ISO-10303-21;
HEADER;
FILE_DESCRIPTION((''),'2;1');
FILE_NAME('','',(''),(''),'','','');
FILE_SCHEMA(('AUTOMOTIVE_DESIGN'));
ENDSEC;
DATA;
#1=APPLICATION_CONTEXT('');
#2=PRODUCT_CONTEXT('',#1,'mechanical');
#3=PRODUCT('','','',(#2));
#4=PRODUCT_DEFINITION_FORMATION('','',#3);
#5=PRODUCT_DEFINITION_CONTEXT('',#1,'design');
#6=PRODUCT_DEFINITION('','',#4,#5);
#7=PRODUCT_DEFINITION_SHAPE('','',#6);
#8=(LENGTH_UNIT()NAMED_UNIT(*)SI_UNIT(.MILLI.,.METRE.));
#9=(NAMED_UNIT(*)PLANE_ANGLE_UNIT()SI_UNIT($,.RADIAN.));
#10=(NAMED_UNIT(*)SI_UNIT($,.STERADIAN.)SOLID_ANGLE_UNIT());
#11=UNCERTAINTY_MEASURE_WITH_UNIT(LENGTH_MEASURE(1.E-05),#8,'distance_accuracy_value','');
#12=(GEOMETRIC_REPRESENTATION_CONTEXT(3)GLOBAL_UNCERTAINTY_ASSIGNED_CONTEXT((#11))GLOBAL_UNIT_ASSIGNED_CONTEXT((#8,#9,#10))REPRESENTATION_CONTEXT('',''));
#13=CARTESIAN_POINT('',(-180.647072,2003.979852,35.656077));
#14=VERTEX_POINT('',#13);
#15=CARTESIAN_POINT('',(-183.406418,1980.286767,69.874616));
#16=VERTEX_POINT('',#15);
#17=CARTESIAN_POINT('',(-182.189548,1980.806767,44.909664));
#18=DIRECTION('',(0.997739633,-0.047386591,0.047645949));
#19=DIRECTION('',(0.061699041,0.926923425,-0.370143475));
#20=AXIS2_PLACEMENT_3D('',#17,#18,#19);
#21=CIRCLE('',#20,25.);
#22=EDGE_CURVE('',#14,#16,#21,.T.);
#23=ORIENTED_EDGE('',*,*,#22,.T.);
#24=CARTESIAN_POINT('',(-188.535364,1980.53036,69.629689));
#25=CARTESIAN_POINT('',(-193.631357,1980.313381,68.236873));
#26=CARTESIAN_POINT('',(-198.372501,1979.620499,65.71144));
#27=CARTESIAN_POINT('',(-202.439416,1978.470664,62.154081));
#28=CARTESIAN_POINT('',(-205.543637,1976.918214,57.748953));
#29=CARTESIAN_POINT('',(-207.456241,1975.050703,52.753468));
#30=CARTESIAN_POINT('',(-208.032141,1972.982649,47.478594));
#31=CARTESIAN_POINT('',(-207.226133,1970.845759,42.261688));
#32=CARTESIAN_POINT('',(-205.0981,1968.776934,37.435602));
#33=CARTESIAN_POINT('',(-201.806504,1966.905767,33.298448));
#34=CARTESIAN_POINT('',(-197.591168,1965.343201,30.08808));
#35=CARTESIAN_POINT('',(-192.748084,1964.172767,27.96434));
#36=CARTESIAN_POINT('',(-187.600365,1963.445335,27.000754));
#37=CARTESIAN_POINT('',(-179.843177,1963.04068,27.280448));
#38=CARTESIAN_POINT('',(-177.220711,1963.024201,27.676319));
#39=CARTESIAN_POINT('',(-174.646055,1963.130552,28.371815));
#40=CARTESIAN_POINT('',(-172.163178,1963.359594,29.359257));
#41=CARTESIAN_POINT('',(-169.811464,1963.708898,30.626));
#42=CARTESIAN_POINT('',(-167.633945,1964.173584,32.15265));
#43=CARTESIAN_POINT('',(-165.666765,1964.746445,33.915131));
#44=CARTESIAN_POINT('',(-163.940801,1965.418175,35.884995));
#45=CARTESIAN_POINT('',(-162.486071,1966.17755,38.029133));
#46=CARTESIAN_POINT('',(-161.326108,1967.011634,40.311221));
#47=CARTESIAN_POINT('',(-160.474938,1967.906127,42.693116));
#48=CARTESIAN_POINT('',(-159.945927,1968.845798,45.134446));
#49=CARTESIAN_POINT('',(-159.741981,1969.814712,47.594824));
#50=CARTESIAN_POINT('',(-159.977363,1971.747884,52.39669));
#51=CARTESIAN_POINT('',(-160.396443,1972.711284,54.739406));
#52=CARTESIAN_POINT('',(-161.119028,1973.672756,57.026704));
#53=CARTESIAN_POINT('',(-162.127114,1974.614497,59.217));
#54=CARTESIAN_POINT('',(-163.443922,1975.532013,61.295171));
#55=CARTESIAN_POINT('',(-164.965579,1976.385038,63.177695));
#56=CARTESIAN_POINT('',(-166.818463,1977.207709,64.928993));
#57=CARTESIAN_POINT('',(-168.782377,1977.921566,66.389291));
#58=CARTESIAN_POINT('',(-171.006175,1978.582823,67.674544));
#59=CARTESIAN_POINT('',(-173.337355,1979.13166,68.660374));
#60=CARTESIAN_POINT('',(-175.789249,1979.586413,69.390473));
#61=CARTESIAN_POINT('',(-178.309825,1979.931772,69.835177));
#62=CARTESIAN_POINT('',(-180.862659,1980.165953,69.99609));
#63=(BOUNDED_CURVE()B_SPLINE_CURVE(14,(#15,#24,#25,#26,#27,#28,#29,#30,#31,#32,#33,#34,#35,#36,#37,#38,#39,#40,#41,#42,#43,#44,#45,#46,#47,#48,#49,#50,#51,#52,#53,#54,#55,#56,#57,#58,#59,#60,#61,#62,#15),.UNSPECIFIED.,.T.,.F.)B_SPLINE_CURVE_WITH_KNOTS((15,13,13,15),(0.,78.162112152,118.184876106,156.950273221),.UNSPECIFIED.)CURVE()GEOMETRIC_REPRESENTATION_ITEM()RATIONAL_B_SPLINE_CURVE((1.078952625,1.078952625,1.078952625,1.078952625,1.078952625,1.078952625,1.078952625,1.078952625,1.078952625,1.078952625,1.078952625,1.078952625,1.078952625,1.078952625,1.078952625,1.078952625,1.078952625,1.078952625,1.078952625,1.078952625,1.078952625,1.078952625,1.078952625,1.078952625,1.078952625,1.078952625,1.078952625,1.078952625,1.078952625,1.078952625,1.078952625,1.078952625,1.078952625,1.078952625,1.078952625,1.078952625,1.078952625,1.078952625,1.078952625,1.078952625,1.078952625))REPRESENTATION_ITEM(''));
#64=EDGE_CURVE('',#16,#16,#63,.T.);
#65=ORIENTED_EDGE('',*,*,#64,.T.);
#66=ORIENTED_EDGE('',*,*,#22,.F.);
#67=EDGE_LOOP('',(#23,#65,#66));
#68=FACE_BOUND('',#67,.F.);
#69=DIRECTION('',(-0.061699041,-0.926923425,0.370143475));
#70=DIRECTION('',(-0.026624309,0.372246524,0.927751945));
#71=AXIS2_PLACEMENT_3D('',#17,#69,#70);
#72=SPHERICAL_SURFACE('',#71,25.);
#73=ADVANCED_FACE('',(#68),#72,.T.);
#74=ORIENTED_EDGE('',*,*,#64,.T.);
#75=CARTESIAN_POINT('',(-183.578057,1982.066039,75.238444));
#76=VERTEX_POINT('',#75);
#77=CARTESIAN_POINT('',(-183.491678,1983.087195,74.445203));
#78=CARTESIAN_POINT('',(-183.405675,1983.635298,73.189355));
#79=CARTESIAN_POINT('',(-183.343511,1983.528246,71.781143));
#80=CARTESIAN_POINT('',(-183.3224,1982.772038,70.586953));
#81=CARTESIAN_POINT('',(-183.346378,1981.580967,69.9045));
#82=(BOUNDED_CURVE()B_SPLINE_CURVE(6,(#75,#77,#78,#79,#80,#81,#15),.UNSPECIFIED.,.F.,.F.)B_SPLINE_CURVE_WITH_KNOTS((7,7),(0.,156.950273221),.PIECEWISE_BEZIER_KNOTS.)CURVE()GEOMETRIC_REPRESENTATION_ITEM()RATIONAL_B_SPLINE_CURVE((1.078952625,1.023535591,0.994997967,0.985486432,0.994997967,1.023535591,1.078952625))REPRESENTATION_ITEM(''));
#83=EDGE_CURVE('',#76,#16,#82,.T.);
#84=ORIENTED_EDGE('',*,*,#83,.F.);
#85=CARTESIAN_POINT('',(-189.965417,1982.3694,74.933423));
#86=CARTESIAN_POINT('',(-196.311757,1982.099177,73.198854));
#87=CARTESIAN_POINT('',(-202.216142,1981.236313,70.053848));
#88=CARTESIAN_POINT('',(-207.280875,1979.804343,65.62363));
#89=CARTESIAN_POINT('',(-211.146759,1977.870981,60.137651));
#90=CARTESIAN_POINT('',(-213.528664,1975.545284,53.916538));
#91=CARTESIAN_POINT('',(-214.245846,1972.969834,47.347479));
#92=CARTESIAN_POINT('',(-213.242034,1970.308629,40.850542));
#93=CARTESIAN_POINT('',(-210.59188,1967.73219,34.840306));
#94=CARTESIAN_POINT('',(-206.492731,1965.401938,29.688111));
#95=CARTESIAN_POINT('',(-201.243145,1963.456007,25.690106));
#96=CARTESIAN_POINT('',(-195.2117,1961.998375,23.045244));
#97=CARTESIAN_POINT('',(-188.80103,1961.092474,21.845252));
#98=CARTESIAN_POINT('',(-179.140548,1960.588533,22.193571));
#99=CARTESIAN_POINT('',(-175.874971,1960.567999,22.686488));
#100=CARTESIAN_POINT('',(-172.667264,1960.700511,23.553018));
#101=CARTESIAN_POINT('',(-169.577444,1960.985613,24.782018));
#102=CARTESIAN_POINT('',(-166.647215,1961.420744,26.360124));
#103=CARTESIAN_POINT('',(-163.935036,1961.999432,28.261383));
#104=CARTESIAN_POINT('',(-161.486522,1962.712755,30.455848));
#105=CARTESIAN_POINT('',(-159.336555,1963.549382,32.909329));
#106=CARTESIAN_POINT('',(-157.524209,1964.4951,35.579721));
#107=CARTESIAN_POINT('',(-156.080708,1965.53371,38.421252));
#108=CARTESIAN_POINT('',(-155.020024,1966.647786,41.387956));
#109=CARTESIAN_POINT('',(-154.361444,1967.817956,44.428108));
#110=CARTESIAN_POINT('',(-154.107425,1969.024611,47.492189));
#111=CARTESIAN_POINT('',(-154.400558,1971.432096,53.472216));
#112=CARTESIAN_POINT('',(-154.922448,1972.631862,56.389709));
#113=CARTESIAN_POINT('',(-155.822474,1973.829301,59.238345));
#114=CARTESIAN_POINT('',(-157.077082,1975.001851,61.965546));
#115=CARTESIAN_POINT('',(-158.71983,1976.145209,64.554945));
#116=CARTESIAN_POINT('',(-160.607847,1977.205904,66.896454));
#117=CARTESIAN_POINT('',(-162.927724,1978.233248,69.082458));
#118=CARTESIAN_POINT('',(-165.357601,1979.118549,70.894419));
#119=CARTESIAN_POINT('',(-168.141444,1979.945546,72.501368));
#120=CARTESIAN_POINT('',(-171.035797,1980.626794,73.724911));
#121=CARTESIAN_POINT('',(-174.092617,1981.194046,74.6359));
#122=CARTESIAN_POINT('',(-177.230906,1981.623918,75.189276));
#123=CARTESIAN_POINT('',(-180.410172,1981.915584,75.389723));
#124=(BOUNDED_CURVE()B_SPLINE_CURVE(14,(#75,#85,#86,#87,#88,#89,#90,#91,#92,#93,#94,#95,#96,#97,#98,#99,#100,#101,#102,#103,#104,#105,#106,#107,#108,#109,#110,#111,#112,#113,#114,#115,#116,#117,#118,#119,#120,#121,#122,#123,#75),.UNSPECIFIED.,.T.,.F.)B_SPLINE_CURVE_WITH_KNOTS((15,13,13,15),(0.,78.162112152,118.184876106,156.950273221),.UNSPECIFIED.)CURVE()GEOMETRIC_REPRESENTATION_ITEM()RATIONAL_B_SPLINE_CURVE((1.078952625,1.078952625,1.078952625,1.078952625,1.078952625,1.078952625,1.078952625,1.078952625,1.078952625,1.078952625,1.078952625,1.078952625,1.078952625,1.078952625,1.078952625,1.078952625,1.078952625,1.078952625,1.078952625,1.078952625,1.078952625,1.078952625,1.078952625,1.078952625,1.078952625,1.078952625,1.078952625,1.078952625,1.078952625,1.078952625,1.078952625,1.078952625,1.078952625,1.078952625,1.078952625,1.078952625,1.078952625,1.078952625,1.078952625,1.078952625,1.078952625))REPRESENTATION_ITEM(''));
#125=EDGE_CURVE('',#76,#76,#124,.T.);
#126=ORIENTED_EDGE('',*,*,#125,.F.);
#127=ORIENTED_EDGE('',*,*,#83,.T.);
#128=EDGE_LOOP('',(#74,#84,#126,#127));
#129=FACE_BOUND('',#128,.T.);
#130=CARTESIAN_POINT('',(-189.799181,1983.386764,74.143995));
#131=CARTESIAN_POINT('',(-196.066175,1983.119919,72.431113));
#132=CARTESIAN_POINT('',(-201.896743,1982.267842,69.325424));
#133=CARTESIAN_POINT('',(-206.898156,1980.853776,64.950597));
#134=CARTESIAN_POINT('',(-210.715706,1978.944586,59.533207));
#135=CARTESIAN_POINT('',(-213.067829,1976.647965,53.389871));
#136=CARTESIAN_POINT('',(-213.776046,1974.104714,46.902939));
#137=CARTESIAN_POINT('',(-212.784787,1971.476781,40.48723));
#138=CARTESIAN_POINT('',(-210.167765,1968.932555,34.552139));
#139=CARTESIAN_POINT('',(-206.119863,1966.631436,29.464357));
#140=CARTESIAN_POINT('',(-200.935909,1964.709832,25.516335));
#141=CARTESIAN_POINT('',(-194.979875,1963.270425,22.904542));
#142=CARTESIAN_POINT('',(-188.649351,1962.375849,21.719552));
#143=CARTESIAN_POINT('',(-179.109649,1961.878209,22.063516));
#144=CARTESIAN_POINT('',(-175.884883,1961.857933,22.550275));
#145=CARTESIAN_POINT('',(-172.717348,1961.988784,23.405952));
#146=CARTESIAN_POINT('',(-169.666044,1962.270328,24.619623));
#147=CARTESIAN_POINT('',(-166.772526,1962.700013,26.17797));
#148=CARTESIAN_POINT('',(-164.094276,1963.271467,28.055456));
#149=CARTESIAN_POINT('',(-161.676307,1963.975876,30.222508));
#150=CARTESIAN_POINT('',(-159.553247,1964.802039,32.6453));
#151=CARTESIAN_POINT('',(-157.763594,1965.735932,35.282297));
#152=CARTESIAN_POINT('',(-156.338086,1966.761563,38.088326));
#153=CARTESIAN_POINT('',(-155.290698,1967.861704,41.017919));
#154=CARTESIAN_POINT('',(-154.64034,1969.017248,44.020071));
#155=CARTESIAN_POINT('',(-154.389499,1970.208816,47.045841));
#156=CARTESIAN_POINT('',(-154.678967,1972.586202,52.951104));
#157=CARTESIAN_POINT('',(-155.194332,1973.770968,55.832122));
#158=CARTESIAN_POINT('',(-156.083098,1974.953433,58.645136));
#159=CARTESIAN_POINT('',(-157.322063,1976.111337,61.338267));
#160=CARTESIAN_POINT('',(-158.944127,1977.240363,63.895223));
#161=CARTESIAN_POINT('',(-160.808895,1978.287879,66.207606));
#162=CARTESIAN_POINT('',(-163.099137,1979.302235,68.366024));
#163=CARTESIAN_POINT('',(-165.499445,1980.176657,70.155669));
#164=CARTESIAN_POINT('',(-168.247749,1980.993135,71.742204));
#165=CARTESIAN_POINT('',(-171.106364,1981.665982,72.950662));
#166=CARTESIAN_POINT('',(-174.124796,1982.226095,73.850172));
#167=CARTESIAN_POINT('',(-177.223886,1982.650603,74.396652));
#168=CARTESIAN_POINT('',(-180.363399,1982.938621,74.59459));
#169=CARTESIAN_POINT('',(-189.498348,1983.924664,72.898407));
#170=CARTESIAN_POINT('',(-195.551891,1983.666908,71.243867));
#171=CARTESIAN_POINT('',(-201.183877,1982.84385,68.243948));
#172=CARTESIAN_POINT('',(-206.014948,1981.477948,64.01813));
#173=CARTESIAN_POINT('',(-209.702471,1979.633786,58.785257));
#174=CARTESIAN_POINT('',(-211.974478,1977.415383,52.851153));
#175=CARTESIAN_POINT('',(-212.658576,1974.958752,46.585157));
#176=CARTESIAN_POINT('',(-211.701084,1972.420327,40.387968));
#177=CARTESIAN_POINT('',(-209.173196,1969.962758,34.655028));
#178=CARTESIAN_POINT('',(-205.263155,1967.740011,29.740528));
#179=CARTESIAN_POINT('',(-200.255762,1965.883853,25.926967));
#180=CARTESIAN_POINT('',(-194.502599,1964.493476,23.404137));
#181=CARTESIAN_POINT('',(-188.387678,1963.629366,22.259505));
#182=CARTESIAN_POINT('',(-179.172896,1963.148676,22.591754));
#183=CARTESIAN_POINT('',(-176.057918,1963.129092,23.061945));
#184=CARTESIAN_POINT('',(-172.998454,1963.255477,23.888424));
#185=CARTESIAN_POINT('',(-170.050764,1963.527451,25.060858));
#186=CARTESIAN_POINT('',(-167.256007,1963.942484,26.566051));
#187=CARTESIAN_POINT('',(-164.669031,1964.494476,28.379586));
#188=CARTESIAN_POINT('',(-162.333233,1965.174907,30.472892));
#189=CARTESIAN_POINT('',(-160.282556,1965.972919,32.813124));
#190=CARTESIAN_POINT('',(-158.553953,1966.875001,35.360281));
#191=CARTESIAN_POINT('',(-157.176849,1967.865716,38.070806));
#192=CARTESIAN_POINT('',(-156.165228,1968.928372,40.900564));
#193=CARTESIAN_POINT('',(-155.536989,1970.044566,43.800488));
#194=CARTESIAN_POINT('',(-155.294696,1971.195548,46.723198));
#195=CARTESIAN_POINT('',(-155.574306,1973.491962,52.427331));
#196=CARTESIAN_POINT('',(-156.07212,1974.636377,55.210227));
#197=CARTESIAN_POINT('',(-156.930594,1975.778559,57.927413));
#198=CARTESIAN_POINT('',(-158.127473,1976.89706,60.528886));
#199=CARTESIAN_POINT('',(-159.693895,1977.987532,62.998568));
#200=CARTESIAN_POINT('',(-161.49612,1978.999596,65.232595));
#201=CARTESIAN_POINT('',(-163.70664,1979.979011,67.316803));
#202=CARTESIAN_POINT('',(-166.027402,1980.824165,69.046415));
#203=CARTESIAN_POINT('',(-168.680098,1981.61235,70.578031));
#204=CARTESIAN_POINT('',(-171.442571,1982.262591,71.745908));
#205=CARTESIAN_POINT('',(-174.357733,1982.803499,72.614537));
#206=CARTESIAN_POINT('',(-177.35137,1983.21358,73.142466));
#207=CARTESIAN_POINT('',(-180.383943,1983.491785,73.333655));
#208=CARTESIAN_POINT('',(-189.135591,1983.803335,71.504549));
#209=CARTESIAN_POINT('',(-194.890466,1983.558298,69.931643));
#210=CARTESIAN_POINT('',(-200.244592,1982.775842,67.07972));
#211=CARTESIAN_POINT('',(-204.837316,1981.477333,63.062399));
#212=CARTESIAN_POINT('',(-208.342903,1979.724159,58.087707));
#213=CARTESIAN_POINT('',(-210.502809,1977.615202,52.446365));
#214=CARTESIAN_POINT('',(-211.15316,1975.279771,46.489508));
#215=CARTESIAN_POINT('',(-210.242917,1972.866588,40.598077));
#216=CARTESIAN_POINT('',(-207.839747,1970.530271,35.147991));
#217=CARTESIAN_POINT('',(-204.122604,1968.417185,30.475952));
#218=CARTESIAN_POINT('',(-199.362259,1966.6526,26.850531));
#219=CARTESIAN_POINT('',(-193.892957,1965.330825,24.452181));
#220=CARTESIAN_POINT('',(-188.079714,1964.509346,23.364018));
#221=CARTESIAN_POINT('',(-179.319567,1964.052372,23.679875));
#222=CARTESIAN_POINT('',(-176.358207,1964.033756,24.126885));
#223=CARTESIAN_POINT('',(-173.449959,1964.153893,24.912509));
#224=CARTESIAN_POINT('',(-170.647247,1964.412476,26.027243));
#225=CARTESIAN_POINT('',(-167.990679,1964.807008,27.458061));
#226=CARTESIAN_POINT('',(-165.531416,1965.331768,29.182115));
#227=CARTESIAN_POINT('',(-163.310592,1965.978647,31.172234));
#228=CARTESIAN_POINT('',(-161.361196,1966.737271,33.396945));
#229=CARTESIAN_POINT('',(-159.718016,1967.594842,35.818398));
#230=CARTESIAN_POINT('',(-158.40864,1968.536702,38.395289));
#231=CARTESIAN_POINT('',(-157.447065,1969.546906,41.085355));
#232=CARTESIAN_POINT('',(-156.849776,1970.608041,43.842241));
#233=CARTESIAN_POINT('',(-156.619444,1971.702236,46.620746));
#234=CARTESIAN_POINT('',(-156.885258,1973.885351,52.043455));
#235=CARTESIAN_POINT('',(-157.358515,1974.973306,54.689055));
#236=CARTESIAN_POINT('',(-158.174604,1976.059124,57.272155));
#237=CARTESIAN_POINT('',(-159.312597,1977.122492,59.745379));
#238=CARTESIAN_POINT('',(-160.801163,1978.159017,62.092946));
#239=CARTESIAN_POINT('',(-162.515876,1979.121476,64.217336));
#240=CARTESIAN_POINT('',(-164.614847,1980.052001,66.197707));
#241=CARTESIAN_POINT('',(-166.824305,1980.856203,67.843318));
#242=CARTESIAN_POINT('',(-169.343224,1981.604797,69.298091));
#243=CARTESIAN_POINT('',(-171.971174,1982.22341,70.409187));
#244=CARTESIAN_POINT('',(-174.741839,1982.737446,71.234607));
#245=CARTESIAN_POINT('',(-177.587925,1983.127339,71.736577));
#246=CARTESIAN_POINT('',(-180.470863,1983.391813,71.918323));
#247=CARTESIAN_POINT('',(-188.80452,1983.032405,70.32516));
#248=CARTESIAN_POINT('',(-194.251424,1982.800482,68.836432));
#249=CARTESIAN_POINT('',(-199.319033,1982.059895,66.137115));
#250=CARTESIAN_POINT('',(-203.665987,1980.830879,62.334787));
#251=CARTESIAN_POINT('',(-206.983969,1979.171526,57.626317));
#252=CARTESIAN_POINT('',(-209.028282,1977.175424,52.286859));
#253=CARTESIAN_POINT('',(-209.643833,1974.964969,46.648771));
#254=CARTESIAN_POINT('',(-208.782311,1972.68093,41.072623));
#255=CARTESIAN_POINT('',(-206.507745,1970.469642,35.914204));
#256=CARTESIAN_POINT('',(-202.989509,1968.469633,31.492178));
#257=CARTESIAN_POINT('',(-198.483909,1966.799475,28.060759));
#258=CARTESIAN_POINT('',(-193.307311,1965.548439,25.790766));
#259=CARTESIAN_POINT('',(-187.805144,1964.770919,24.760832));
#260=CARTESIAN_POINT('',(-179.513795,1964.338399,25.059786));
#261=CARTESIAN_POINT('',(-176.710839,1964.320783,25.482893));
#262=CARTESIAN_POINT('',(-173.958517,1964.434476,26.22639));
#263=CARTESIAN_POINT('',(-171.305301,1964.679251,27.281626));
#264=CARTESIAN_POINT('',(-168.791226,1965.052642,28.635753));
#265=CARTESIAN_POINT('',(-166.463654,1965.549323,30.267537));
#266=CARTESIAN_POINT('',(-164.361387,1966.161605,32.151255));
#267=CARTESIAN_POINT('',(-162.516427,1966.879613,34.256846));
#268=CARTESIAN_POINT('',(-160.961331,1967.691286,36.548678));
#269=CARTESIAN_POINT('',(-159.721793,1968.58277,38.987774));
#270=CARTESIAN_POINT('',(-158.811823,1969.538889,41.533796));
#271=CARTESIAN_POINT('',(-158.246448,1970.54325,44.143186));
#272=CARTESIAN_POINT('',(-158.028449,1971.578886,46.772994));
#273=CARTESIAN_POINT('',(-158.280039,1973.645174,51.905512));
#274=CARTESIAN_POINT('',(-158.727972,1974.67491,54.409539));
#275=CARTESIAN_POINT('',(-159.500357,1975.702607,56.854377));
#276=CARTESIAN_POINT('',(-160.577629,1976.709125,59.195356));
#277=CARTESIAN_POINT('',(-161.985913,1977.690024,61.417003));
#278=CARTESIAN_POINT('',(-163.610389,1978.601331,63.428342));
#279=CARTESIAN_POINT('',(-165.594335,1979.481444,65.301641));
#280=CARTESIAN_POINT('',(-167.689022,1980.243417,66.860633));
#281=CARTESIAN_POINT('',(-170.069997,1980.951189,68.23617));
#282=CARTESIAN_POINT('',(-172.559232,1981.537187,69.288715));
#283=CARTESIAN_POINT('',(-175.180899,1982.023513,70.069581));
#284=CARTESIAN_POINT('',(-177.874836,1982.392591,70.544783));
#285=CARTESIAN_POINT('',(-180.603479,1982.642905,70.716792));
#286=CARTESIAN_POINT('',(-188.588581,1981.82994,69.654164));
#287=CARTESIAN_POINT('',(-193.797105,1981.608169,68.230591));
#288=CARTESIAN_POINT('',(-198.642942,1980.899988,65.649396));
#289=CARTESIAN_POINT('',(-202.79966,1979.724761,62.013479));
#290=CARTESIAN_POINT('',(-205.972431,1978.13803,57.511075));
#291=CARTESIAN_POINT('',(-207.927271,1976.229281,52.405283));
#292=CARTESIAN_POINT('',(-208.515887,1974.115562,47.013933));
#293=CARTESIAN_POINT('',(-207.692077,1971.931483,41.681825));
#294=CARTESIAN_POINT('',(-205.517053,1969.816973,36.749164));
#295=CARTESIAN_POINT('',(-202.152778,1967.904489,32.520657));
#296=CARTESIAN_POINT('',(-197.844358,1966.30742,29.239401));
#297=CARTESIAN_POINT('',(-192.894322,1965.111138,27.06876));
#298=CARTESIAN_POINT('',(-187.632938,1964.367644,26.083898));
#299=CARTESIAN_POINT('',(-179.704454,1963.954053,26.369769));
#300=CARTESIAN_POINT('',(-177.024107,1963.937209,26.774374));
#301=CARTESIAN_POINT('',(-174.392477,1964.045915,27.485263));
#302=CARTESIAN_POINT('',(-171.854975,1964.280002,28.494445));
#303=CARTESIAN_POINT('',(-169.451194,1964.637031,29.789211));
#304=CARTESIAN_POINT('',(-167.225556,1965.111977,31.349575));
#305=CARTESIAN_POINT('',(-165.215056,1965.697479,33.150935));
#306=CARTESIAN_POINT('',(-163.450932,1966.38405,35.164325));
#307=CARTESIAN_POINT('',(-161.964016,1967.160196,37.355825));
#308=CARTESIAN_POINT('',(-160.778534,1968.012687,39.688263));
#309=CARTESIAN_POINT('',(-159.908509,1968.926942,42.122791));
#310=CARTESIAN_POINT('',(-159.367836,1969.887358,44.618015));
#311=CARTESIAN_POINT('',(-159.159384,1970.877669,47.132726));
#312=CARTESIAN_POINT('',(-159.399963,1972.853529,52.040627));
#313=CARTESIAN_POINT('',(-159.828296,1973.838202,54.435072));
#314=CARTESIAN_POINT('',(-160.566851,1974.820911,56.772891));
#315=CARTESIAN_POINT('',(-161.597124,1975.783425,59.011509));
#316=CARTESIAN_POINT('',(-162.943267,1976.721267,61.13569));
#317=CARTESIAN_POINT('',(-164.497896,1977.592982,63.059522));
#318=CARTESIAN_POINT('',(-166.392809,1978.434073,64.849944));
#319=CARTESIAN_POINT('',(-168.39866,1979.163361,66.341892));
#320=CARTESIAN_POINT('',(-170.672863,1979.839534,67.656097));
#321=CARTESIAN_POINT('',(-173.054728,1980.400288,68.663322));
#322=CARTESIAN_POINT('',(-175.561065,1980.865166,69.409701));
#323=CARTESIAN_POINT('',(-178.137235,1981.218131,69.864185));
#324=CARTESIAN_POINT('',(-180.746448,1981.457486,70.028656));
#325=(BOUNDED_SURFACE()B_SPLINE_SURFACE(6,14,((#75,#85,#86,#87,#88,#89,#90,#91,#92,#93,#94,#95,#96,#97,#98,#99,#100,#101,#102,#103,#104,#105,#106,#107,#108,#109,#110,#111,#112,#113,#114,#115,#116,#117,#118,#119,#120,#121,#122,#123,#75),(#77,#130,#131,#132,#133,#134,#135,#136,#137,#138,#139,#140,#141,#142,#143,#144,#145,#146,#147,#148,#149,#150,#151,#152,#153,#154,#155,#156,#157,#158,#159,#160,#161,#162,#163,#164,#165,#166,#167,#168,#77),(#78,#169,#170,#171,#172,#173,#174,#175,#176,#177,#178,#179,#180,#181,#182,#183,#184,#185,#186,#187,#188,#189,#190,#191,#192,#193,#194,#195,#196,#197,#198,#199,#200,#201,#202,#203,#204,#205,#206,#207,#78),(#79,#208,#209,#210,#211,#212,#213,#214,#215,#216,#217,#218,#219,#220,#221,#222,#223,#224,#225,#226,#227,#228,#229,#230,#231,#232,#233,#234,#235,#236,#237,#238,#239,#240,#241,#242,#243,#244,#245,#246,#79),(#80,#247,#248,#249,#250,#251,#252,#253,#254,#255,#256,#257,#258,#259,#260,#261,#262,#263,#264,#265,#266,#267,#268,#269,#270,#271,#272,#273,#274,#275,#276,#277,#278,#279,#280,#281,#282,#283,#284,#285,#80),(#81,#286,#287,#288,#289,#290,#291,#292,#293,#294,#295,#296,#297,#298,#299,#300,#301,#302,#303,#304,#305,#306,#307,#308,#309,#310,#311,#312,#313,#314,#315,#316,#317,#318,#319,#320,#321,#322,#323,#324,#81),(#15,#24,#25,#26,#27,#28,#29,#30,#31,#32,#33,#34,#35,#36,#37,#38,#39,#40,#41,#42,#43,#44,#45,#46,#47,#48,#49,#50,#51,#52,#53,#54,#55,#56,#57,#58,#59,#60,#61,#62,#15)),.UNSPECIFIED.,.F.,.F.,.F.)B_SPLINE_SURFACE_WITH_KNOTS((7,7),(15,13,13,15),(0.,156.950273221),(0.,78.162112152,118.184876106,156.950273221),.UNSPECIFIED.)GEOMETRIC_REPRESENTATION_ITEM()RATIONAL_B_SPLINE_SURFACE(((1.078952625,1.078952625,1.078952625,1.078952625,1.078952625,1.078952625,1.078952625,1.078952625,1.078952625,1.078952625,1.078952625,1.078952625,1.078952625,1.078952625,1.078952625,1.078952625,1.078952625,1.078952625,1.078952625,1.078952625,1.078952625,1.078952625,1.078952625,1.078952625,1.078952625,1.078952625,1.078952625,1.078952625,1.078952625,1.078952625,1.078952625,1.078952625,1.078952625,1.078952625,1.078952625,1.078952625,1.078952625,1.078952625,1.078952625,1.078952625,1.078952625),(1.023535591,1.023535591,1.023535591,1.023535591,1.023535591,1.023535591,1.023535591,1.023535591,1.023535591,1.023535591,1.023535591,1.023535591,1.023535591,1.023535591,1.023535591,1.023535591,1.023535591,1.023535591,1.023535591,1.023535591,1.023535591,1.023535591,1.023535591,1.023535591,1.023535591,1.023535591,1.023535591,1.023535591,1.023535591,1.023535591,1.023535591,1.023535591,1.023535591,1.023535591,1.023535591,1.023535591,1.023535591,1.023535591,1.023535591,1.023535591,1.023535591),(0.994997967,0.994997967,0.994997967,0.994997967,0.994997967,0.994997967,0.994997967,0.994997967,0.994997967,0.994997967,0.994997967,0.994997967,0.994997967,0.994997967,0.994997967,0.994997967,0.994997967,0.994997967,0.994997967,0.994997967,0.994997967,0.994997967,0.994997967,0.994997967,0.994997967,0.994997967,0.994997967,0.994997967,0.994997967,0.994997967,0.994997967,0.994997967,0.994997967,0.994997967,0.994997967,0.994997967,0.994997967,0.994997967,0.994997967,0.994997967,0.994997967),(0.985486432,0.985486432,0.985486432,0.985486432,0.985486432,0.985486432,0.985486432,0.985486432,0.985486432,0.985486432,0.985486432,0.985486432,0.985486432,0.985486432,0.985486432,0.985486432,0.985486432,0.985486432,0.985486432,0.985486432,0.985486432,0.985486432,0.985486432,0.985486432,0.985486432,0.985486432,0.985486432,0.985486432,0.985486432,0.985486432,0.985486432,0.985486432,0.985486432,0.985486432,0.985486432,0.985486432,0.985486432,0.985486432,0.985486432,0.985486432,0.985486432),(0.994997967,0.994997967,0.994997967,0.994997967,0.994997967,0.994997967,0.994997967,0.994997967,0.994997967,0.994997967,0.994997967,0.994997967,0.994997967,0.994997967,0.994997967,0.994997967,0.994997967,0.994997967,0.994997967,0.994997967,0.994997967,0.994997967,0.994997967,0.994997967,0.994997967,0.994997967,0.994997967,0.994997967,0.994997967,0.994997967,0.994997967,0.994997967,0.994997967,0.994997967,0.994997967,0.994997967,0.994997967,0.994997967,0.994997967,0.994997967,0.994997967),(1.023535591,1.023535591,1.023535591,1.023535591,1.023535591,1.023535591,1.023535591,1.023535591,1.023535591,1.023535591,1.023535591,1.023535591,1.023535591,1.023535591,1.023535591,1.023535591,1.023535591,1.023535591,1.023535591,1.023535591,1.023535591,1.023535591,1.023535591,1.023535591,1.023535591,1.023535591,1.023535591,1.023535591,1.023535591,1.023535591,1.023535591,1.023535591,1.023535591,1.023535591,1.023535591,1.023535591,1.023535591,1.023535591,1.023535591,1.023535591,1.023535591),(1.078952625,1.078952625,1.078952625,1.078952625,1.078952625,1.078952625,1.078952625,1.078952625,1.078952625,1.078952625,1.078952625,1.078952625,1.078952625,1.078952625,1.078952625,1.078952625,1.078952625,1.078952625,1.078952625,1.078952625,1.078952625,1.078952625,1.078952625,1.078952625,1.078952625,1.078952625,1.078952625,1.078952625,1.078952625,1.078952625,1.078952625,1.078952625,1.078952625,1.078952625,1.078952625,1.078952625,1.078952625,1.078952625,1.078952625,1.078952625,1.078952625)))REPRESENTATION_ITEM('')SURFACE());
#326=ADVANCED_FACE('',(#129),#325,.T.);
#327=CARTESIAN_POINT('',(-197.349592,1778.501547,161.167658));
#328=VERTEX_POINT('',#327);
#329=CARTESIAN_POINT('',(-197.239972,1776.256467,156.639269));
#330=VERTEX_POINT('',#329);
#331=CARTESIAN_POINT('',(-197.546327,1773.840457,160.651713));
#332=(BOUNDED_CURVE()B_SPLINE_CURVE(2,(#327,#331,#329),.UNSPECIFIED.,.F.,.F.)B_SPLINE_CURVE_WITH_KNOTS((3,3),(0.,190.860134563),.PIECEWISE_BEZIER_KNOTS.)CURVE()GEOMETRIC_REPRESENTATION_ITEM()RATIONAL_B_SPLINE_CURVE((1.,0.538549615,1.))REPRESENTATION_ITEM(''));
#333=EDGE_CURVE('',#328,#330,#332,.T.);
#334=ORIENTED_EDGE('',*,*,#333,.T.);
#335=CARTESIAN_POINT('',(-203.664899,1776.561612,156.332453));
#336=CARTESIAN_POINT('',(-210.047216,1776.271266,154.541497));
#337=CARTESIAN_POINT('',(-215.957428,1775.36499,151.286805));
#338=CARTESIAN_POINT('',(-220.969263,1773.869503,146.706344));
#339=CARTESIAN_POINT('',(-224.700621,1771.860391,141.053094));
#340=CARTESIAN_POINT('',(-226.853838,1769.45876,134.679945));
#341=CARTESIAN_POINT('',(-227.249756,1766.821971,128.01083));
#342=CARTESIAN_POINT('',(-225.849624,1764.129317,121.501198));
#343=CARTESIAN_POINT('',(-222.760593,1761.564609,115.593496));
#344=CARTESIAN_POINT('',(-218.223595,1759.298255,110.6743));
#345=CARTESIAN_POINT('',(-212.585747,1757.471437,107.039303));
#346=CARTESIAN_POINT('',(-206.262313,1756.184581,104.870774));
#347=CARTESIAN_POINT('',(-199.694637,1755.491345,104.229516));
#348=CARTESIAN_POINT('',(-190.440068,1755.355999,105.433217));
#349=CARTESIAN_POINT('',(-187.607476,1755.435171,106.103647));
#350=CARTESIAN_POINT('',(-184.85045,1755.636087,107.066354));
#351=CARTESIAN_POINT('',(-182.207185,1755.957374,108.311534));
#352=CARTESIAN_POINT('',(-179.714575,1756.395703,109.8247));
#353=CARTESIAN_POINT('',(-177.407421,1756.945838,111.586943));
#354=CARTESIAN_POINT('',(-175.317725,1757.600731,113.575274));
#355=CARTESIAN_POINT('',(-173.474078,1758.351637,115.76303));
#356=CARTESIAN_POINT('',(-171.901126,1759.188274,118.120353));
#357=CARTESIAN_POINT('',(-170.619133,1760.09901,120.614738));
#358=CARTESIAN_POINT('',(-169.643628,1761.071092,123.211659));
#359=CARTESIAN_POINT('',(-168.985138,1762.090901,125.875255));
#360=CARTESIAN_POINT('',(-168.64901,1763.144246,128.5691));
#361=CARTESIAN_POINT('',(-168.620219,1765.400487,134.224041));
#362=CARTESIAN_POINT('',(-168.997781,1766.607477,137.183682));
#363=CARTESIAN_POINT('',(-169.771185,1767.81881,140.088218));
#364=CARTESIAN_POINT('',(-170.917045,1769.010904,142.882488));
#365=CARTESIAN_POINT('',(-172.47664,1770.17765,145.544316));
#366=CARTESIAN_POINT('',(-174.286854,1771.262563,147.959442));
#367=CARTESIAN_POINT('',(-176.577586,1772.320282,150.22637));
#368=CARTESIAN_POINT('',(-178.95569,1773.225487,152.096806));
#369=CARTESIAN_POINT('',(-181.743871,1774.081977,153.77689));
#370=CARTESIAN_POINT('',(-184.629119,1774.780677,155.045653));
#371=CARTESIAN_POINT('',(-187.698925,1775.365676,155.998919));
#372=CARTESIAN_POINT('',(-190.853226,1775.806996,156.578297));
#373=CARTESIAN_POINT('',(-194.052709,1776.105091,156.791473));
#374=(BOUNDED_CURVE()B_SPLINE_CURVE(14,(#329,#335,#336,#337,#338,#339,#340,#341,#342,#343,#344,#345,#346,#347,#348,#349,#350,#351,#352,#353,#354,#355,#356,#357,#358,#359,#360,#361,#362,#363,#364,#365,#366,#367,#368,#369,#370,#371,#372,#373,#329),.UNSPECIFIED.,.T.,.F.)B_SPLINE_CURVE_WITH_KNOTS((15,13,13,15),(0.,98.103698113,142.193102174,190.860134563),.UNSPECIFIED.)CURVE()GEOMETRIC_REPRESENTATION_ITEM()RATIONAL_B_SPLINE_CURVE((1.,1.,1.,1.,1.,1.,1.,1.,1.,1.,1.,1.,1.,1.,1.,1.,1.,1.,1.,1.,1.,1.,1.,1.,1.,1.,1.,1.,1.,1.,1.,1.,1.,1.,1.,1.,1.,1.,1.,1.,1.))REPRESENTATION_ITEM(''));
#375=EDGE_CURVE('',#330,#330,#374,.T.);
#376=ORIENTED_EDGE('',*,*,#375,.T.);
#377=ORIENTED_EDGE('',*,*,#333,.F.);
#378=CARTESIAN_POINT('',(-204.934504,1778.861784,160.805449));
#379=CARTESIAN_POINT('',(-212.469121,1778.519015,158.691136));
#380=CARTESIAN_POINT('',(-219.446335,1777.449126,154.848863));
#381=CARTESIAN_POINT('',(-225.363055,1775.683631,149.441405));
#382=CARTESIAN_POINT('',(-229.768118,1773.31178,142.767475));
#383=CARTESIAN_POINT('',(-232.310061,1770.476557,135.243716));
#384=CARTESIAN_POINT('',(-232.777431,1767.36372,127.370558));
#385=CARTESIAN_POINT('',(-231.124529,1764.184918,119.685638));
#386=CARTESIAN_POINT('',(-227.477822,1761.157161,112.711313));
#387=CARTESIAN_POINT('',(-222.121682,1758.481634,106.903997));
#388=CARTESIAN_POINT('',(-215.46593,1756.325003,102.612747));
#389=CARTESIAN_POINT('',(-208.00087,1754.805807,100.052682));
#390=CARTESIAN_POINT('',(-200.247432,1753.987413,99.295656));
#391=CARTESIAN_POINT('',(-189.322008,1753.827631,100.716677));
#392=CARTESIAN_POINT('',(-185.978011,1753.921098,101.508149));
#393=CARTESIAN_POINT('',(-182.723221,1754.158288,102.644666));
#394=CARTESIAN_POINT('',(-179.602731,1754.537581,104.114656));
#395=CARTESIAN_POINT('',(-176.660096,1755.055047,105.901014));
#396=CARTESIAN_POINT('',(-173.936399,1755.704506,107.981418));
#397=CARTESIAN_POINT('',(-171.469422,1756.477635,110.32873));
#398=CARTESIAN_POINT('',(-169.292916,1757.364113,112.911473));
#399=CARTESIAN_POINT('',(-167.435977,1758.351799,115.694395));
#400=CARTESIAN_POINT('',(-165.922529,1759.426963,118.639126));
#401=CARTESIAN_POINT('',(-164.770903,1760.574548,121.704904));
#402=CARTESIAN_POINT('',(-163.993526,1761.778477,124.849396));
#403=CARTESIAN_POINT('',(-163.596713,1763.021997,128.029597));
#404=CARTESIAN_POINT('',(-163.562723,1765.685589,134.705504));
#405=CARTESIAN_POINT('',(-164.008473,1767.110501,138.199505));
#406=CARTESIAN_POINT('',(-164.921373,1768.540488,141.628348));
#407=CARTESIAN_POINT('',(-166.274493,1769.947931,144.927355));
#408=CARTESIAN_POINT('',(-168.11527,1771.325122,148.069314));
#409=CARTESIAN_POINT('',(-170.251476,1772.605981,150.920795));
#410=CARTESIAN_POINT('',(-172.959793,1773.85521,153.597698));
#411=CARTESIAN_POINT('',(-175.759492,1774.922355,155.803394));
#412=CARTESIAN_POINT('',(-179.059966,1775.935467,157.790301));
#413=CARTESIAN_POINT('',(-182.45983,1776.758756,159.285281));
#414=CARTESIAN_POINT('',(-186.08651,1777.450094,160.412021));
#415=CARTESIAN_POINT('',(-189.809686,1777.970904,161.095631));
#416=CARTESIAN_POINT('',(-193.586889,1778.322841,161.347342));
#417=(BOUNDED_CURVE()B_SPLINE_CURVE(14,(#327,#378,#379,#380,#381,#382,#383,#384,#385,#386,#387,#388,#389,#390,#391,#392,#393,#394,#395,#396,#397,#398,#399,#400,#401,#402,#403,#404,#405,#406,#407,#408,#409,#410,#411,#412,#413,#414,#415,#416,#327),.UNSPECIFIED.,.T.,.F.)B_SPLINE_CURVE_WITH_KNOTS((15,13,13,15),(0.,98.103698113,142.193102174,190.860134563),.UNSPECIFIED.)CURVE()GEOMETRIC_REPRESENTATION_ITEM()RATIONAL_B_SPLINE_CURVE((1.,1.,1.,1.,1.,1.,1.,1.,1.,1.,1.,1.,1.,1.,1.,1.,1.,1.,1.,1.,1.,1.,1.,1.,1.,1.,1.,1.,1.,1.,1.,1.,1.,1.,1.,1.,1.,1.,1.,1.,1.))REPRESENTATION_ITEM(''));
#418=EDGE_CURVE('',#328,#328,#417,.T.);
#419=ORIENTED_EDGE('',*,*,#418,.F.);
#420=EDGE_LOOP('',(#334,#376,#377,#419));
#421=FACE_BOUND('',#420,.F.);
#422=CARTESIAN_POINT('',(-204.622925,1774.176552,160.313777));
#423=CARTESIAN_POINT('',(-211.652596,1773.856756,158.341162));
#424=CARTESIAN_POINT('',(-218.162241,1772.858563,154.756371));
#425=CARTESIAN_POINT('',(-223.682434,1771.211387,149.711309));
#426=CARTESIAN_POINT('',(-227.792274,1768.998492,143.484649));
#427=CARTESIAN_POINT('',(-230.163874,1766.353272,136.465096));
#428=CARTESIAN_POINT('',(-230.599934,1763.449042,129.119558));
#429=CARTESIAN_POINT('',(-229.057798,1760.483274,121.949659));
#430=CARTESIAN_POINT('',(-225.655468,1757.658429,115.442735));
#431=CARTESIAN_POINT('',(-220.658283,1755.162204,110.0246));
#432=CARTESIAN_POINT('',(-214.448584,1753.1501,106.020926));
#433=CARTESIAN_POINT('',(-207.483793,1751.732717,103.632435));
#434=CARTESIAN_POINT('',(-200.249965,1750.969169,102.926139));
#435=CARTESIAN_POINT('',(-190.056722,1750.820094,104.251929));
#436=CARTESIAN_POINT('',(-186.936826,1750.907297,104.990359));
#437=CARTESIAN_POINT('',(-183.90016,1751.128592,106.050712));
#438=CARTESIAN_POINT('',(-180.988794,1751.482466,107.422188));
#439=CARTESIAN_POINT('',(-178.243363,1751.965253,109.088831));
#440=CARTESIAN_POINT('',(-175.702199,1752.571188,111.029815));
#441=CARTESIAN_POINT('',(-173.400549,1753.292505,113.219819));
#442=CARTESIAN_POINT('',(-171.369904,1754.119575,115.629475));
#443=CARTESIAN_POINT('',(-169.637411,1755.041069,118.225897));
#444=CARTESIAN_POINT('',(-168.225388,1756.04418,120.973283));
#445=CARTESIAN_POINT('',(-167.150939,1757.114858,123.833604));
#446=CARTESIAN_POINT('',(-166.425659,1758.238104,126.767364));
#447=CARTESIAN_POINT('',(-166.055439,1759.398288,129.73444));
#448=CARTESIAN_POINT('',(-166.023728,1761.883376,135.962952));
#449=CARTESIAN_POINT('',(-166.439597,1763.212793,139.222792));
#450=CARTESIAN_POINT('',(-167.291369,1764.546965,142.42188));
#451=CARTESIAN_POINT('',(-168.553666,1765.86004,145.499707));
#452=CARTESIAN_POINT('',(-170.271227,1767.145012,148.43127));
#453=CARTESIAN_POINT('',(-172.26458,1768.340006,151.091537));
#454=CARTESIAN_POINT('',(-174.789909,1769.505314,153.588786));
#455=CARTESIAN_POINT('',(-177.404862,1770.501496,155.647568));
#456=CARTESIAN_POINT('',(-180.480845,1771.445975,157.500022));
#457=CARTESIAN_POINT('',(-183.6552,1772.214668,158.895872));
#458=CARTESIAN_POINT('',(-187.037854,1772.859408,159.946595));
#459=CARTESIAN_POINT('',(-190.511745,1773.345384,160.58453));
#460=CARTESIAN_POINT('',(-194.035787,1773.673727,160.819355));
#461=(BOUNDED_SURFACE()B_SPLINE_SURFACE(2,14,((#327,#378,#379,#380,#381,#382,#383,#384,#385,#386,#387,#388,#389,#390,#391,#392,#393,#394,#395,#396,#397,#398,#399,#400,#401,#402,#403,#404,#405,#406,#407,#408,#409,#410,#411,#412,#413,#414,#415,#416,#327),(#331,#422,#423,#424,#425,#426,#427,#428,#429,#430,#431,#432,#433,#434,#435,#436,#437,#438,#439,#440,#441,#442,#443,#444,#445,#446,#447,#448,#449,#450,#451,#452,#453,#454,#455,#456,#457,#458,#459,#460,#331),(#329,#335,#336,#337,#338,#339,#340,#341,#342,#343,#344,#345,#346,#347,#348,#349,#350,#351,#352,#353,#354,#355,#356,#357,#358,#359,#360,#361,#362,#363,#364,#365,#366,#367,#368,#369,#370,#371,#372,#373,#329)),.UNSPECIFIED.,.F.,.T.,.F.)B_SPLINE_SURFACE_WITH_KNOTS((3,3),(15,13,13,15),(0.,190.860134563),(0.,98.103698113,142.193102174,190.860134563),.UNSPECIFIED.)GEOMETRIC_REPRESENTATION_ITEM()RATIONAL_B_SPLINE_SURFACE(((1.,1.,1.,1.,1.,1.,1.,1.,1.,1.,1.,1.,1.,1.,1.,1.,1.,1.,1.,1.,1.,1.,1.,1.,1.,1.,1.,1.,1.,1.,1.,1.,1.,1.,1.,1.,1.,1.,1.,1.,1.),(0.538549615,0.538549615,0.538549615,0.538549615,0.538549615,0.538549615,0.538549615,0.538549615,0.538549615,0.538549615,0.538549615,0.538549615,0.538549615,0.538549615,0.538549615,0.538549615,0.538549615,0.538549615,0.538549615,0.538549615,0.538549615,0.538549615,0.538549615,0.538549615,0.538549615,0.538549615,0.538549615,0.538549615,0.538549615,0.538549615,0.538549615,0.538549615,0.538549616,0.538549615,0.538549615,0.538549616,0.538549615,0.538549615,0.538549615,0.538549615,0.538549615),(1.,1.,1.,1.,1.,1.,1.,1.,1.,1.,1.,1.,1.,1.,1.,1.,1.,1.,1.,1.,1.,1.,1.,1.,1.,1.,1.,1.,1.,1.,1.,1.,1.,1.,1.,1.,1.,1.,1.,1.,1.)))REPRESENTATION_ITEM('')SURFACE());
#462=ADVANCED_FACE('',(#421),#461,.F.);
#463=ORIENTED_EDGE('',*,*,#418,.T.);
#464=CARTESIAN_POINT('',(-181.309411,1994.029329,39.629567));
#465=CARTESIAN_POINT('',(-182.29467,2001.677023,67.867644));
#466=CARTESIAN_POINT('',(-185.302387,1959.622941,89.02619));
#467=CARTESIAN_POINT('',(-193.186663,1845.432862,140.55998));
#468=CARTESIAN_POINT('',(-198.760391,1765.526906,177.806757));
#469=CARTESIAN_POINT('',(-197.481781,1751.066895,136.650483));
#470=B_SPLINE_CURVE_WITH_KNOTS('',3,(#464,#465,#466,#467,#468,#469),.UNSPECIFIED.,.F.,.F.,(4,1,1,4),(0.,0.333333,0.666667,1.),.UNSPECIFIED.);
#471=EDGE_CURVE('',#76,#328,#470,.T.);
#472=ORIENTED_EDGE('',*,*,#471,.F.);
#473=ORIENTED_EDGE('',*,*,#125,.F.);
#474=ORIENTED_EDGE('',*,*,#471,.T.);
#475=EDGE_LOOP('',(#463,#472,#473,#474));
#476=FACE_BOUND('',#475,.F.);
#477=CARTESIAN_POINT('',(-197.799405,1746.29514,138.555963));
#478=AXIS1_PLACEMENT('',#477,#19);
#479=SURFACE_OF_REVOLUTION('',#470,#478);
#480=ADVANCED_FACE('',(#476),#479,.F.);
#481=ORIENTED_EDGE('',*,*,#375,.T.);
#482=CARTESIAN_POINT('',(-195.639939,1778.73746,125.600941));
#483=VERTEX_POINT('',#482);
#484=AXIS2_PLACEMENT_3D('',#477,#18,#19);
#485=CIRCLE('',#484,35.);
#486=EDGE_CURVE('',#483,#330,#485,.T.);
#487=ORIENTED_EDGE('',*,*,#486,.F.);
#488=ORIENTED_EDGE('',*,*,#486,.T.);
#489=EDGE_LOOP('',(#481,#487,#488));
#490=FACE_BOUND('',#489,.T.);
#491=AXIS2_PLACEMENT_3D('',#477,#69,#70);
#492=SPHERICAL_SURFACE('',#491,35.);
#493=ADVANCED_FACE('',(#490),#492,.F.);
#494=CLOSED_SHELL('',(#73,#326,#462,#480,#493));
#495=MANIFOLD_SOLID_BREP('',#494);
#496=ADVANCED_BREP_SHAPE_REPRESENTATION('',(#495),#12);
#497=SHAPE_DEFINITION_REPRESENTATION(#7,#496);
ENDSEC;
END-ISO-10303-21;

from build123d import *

# Parameters (mm, degrees)
FILLET066_R             = 3
FILLET067_R             = 3
BODY041_ROLL_ANGLE      = 87.060081
BODY041_PITCH_ANGLE     = 21.724466
BODY041_PLACEMENT_ANGLE = 86.191824


with BuildPart() as part:
    # Sketch138 → Revolution072 (revolve)
    with BuildSketch(Plane.XY):
        with BuildLine():
            Line((5.147949, 0), (267.265, 0))
            add(Edge.make_bspline(
                [(267.265, 0), (263.840897, 29.07099), (216.842712, 33.126465), (91.435905, 38.640092), (3.238657, 43.599544), (5.147949, 0)],
                knots=[0, 0, 0, 0, 0.333333, 0.666667, 1, 1, 1, 1], degree=3))
        make_face()
    revolve(axis=Axis((0, 0, 0), (1, 0, 0)))

    # Sketch139 → Groove065 (revolve, cut)
    with BuildSketch(Plane.XY):
        with BuildLine():
            Line((-35, 0), (35, 0))
            ThreePointArc((35, 0), (0, 35), (-35, 0))
        make_face()
    revolve(axis=Axis((0, 0, 0), (1, 0, 0)), mode=Mode.SUBTRACT)

    # Fillet066
    fillet066_edges = [part.edges().sort_by_distance(p)[0] for p in [
        (17.386166, -30.376327, 0),
    ]]
    fillet(fillet066_edges, radius=FILLET066_R)

    # Sketch140 → Groove066 (revolve, cut)
    with BuildSketch(Plane.XY):
        with BuildLine():
            Line((228, 0), (278, 0))
            ThreePointArc((278, 0), (253, 25), (228, 0))
        make_face()
    revolve(axis=Axis((0, 0, 0), (1, 0, 0)), mode=Mode.SUBTRACT)

    # Fillet067
    fillet067_edges = [part.edges().sort_by_distance(p)[0] for p in [
        (251.985595, -24.979411, 0),
    ]]
    fillet(fillet067_edges, radius=FILLET067_R)

    # Sketch140 → Revolution073 (revolve)
    with BuildSketch(Plane.XY):
        with BuildLine():
            Line((228, 0), (278, 0))
            ThreePointArc((278, 0), (253, 25), (228, 0))
        make_face()
    revolve(axis=Axis((0, 0, 0), (1, 0, 0)))


with BuildPart() as part_1:
    # Body041 roll: moved
    add(part.part.rotate(Axis((0, 0, 0), (1, 0, 0)), BODY041_ROLL_ANGLE))


with BuildPart() as part_2:
    # Body041 pitch: moved
    add(part_1.part.rotate(Axis((0, 0, 0), (0, 1, 0)), BODY041_PITCH_ANGLE))


with BuildPart() as part_3:
    # Body041 placement: moved
    add(part_2.part.moved(Location((-197.799405, 1746.29514, 138.555963))).rotate(Axis((-197.799405, 1746.29514, 138.555963), (0, 0, 1)), BODY041_PLACEMENT_ANGLE))


solid = part_3.part
